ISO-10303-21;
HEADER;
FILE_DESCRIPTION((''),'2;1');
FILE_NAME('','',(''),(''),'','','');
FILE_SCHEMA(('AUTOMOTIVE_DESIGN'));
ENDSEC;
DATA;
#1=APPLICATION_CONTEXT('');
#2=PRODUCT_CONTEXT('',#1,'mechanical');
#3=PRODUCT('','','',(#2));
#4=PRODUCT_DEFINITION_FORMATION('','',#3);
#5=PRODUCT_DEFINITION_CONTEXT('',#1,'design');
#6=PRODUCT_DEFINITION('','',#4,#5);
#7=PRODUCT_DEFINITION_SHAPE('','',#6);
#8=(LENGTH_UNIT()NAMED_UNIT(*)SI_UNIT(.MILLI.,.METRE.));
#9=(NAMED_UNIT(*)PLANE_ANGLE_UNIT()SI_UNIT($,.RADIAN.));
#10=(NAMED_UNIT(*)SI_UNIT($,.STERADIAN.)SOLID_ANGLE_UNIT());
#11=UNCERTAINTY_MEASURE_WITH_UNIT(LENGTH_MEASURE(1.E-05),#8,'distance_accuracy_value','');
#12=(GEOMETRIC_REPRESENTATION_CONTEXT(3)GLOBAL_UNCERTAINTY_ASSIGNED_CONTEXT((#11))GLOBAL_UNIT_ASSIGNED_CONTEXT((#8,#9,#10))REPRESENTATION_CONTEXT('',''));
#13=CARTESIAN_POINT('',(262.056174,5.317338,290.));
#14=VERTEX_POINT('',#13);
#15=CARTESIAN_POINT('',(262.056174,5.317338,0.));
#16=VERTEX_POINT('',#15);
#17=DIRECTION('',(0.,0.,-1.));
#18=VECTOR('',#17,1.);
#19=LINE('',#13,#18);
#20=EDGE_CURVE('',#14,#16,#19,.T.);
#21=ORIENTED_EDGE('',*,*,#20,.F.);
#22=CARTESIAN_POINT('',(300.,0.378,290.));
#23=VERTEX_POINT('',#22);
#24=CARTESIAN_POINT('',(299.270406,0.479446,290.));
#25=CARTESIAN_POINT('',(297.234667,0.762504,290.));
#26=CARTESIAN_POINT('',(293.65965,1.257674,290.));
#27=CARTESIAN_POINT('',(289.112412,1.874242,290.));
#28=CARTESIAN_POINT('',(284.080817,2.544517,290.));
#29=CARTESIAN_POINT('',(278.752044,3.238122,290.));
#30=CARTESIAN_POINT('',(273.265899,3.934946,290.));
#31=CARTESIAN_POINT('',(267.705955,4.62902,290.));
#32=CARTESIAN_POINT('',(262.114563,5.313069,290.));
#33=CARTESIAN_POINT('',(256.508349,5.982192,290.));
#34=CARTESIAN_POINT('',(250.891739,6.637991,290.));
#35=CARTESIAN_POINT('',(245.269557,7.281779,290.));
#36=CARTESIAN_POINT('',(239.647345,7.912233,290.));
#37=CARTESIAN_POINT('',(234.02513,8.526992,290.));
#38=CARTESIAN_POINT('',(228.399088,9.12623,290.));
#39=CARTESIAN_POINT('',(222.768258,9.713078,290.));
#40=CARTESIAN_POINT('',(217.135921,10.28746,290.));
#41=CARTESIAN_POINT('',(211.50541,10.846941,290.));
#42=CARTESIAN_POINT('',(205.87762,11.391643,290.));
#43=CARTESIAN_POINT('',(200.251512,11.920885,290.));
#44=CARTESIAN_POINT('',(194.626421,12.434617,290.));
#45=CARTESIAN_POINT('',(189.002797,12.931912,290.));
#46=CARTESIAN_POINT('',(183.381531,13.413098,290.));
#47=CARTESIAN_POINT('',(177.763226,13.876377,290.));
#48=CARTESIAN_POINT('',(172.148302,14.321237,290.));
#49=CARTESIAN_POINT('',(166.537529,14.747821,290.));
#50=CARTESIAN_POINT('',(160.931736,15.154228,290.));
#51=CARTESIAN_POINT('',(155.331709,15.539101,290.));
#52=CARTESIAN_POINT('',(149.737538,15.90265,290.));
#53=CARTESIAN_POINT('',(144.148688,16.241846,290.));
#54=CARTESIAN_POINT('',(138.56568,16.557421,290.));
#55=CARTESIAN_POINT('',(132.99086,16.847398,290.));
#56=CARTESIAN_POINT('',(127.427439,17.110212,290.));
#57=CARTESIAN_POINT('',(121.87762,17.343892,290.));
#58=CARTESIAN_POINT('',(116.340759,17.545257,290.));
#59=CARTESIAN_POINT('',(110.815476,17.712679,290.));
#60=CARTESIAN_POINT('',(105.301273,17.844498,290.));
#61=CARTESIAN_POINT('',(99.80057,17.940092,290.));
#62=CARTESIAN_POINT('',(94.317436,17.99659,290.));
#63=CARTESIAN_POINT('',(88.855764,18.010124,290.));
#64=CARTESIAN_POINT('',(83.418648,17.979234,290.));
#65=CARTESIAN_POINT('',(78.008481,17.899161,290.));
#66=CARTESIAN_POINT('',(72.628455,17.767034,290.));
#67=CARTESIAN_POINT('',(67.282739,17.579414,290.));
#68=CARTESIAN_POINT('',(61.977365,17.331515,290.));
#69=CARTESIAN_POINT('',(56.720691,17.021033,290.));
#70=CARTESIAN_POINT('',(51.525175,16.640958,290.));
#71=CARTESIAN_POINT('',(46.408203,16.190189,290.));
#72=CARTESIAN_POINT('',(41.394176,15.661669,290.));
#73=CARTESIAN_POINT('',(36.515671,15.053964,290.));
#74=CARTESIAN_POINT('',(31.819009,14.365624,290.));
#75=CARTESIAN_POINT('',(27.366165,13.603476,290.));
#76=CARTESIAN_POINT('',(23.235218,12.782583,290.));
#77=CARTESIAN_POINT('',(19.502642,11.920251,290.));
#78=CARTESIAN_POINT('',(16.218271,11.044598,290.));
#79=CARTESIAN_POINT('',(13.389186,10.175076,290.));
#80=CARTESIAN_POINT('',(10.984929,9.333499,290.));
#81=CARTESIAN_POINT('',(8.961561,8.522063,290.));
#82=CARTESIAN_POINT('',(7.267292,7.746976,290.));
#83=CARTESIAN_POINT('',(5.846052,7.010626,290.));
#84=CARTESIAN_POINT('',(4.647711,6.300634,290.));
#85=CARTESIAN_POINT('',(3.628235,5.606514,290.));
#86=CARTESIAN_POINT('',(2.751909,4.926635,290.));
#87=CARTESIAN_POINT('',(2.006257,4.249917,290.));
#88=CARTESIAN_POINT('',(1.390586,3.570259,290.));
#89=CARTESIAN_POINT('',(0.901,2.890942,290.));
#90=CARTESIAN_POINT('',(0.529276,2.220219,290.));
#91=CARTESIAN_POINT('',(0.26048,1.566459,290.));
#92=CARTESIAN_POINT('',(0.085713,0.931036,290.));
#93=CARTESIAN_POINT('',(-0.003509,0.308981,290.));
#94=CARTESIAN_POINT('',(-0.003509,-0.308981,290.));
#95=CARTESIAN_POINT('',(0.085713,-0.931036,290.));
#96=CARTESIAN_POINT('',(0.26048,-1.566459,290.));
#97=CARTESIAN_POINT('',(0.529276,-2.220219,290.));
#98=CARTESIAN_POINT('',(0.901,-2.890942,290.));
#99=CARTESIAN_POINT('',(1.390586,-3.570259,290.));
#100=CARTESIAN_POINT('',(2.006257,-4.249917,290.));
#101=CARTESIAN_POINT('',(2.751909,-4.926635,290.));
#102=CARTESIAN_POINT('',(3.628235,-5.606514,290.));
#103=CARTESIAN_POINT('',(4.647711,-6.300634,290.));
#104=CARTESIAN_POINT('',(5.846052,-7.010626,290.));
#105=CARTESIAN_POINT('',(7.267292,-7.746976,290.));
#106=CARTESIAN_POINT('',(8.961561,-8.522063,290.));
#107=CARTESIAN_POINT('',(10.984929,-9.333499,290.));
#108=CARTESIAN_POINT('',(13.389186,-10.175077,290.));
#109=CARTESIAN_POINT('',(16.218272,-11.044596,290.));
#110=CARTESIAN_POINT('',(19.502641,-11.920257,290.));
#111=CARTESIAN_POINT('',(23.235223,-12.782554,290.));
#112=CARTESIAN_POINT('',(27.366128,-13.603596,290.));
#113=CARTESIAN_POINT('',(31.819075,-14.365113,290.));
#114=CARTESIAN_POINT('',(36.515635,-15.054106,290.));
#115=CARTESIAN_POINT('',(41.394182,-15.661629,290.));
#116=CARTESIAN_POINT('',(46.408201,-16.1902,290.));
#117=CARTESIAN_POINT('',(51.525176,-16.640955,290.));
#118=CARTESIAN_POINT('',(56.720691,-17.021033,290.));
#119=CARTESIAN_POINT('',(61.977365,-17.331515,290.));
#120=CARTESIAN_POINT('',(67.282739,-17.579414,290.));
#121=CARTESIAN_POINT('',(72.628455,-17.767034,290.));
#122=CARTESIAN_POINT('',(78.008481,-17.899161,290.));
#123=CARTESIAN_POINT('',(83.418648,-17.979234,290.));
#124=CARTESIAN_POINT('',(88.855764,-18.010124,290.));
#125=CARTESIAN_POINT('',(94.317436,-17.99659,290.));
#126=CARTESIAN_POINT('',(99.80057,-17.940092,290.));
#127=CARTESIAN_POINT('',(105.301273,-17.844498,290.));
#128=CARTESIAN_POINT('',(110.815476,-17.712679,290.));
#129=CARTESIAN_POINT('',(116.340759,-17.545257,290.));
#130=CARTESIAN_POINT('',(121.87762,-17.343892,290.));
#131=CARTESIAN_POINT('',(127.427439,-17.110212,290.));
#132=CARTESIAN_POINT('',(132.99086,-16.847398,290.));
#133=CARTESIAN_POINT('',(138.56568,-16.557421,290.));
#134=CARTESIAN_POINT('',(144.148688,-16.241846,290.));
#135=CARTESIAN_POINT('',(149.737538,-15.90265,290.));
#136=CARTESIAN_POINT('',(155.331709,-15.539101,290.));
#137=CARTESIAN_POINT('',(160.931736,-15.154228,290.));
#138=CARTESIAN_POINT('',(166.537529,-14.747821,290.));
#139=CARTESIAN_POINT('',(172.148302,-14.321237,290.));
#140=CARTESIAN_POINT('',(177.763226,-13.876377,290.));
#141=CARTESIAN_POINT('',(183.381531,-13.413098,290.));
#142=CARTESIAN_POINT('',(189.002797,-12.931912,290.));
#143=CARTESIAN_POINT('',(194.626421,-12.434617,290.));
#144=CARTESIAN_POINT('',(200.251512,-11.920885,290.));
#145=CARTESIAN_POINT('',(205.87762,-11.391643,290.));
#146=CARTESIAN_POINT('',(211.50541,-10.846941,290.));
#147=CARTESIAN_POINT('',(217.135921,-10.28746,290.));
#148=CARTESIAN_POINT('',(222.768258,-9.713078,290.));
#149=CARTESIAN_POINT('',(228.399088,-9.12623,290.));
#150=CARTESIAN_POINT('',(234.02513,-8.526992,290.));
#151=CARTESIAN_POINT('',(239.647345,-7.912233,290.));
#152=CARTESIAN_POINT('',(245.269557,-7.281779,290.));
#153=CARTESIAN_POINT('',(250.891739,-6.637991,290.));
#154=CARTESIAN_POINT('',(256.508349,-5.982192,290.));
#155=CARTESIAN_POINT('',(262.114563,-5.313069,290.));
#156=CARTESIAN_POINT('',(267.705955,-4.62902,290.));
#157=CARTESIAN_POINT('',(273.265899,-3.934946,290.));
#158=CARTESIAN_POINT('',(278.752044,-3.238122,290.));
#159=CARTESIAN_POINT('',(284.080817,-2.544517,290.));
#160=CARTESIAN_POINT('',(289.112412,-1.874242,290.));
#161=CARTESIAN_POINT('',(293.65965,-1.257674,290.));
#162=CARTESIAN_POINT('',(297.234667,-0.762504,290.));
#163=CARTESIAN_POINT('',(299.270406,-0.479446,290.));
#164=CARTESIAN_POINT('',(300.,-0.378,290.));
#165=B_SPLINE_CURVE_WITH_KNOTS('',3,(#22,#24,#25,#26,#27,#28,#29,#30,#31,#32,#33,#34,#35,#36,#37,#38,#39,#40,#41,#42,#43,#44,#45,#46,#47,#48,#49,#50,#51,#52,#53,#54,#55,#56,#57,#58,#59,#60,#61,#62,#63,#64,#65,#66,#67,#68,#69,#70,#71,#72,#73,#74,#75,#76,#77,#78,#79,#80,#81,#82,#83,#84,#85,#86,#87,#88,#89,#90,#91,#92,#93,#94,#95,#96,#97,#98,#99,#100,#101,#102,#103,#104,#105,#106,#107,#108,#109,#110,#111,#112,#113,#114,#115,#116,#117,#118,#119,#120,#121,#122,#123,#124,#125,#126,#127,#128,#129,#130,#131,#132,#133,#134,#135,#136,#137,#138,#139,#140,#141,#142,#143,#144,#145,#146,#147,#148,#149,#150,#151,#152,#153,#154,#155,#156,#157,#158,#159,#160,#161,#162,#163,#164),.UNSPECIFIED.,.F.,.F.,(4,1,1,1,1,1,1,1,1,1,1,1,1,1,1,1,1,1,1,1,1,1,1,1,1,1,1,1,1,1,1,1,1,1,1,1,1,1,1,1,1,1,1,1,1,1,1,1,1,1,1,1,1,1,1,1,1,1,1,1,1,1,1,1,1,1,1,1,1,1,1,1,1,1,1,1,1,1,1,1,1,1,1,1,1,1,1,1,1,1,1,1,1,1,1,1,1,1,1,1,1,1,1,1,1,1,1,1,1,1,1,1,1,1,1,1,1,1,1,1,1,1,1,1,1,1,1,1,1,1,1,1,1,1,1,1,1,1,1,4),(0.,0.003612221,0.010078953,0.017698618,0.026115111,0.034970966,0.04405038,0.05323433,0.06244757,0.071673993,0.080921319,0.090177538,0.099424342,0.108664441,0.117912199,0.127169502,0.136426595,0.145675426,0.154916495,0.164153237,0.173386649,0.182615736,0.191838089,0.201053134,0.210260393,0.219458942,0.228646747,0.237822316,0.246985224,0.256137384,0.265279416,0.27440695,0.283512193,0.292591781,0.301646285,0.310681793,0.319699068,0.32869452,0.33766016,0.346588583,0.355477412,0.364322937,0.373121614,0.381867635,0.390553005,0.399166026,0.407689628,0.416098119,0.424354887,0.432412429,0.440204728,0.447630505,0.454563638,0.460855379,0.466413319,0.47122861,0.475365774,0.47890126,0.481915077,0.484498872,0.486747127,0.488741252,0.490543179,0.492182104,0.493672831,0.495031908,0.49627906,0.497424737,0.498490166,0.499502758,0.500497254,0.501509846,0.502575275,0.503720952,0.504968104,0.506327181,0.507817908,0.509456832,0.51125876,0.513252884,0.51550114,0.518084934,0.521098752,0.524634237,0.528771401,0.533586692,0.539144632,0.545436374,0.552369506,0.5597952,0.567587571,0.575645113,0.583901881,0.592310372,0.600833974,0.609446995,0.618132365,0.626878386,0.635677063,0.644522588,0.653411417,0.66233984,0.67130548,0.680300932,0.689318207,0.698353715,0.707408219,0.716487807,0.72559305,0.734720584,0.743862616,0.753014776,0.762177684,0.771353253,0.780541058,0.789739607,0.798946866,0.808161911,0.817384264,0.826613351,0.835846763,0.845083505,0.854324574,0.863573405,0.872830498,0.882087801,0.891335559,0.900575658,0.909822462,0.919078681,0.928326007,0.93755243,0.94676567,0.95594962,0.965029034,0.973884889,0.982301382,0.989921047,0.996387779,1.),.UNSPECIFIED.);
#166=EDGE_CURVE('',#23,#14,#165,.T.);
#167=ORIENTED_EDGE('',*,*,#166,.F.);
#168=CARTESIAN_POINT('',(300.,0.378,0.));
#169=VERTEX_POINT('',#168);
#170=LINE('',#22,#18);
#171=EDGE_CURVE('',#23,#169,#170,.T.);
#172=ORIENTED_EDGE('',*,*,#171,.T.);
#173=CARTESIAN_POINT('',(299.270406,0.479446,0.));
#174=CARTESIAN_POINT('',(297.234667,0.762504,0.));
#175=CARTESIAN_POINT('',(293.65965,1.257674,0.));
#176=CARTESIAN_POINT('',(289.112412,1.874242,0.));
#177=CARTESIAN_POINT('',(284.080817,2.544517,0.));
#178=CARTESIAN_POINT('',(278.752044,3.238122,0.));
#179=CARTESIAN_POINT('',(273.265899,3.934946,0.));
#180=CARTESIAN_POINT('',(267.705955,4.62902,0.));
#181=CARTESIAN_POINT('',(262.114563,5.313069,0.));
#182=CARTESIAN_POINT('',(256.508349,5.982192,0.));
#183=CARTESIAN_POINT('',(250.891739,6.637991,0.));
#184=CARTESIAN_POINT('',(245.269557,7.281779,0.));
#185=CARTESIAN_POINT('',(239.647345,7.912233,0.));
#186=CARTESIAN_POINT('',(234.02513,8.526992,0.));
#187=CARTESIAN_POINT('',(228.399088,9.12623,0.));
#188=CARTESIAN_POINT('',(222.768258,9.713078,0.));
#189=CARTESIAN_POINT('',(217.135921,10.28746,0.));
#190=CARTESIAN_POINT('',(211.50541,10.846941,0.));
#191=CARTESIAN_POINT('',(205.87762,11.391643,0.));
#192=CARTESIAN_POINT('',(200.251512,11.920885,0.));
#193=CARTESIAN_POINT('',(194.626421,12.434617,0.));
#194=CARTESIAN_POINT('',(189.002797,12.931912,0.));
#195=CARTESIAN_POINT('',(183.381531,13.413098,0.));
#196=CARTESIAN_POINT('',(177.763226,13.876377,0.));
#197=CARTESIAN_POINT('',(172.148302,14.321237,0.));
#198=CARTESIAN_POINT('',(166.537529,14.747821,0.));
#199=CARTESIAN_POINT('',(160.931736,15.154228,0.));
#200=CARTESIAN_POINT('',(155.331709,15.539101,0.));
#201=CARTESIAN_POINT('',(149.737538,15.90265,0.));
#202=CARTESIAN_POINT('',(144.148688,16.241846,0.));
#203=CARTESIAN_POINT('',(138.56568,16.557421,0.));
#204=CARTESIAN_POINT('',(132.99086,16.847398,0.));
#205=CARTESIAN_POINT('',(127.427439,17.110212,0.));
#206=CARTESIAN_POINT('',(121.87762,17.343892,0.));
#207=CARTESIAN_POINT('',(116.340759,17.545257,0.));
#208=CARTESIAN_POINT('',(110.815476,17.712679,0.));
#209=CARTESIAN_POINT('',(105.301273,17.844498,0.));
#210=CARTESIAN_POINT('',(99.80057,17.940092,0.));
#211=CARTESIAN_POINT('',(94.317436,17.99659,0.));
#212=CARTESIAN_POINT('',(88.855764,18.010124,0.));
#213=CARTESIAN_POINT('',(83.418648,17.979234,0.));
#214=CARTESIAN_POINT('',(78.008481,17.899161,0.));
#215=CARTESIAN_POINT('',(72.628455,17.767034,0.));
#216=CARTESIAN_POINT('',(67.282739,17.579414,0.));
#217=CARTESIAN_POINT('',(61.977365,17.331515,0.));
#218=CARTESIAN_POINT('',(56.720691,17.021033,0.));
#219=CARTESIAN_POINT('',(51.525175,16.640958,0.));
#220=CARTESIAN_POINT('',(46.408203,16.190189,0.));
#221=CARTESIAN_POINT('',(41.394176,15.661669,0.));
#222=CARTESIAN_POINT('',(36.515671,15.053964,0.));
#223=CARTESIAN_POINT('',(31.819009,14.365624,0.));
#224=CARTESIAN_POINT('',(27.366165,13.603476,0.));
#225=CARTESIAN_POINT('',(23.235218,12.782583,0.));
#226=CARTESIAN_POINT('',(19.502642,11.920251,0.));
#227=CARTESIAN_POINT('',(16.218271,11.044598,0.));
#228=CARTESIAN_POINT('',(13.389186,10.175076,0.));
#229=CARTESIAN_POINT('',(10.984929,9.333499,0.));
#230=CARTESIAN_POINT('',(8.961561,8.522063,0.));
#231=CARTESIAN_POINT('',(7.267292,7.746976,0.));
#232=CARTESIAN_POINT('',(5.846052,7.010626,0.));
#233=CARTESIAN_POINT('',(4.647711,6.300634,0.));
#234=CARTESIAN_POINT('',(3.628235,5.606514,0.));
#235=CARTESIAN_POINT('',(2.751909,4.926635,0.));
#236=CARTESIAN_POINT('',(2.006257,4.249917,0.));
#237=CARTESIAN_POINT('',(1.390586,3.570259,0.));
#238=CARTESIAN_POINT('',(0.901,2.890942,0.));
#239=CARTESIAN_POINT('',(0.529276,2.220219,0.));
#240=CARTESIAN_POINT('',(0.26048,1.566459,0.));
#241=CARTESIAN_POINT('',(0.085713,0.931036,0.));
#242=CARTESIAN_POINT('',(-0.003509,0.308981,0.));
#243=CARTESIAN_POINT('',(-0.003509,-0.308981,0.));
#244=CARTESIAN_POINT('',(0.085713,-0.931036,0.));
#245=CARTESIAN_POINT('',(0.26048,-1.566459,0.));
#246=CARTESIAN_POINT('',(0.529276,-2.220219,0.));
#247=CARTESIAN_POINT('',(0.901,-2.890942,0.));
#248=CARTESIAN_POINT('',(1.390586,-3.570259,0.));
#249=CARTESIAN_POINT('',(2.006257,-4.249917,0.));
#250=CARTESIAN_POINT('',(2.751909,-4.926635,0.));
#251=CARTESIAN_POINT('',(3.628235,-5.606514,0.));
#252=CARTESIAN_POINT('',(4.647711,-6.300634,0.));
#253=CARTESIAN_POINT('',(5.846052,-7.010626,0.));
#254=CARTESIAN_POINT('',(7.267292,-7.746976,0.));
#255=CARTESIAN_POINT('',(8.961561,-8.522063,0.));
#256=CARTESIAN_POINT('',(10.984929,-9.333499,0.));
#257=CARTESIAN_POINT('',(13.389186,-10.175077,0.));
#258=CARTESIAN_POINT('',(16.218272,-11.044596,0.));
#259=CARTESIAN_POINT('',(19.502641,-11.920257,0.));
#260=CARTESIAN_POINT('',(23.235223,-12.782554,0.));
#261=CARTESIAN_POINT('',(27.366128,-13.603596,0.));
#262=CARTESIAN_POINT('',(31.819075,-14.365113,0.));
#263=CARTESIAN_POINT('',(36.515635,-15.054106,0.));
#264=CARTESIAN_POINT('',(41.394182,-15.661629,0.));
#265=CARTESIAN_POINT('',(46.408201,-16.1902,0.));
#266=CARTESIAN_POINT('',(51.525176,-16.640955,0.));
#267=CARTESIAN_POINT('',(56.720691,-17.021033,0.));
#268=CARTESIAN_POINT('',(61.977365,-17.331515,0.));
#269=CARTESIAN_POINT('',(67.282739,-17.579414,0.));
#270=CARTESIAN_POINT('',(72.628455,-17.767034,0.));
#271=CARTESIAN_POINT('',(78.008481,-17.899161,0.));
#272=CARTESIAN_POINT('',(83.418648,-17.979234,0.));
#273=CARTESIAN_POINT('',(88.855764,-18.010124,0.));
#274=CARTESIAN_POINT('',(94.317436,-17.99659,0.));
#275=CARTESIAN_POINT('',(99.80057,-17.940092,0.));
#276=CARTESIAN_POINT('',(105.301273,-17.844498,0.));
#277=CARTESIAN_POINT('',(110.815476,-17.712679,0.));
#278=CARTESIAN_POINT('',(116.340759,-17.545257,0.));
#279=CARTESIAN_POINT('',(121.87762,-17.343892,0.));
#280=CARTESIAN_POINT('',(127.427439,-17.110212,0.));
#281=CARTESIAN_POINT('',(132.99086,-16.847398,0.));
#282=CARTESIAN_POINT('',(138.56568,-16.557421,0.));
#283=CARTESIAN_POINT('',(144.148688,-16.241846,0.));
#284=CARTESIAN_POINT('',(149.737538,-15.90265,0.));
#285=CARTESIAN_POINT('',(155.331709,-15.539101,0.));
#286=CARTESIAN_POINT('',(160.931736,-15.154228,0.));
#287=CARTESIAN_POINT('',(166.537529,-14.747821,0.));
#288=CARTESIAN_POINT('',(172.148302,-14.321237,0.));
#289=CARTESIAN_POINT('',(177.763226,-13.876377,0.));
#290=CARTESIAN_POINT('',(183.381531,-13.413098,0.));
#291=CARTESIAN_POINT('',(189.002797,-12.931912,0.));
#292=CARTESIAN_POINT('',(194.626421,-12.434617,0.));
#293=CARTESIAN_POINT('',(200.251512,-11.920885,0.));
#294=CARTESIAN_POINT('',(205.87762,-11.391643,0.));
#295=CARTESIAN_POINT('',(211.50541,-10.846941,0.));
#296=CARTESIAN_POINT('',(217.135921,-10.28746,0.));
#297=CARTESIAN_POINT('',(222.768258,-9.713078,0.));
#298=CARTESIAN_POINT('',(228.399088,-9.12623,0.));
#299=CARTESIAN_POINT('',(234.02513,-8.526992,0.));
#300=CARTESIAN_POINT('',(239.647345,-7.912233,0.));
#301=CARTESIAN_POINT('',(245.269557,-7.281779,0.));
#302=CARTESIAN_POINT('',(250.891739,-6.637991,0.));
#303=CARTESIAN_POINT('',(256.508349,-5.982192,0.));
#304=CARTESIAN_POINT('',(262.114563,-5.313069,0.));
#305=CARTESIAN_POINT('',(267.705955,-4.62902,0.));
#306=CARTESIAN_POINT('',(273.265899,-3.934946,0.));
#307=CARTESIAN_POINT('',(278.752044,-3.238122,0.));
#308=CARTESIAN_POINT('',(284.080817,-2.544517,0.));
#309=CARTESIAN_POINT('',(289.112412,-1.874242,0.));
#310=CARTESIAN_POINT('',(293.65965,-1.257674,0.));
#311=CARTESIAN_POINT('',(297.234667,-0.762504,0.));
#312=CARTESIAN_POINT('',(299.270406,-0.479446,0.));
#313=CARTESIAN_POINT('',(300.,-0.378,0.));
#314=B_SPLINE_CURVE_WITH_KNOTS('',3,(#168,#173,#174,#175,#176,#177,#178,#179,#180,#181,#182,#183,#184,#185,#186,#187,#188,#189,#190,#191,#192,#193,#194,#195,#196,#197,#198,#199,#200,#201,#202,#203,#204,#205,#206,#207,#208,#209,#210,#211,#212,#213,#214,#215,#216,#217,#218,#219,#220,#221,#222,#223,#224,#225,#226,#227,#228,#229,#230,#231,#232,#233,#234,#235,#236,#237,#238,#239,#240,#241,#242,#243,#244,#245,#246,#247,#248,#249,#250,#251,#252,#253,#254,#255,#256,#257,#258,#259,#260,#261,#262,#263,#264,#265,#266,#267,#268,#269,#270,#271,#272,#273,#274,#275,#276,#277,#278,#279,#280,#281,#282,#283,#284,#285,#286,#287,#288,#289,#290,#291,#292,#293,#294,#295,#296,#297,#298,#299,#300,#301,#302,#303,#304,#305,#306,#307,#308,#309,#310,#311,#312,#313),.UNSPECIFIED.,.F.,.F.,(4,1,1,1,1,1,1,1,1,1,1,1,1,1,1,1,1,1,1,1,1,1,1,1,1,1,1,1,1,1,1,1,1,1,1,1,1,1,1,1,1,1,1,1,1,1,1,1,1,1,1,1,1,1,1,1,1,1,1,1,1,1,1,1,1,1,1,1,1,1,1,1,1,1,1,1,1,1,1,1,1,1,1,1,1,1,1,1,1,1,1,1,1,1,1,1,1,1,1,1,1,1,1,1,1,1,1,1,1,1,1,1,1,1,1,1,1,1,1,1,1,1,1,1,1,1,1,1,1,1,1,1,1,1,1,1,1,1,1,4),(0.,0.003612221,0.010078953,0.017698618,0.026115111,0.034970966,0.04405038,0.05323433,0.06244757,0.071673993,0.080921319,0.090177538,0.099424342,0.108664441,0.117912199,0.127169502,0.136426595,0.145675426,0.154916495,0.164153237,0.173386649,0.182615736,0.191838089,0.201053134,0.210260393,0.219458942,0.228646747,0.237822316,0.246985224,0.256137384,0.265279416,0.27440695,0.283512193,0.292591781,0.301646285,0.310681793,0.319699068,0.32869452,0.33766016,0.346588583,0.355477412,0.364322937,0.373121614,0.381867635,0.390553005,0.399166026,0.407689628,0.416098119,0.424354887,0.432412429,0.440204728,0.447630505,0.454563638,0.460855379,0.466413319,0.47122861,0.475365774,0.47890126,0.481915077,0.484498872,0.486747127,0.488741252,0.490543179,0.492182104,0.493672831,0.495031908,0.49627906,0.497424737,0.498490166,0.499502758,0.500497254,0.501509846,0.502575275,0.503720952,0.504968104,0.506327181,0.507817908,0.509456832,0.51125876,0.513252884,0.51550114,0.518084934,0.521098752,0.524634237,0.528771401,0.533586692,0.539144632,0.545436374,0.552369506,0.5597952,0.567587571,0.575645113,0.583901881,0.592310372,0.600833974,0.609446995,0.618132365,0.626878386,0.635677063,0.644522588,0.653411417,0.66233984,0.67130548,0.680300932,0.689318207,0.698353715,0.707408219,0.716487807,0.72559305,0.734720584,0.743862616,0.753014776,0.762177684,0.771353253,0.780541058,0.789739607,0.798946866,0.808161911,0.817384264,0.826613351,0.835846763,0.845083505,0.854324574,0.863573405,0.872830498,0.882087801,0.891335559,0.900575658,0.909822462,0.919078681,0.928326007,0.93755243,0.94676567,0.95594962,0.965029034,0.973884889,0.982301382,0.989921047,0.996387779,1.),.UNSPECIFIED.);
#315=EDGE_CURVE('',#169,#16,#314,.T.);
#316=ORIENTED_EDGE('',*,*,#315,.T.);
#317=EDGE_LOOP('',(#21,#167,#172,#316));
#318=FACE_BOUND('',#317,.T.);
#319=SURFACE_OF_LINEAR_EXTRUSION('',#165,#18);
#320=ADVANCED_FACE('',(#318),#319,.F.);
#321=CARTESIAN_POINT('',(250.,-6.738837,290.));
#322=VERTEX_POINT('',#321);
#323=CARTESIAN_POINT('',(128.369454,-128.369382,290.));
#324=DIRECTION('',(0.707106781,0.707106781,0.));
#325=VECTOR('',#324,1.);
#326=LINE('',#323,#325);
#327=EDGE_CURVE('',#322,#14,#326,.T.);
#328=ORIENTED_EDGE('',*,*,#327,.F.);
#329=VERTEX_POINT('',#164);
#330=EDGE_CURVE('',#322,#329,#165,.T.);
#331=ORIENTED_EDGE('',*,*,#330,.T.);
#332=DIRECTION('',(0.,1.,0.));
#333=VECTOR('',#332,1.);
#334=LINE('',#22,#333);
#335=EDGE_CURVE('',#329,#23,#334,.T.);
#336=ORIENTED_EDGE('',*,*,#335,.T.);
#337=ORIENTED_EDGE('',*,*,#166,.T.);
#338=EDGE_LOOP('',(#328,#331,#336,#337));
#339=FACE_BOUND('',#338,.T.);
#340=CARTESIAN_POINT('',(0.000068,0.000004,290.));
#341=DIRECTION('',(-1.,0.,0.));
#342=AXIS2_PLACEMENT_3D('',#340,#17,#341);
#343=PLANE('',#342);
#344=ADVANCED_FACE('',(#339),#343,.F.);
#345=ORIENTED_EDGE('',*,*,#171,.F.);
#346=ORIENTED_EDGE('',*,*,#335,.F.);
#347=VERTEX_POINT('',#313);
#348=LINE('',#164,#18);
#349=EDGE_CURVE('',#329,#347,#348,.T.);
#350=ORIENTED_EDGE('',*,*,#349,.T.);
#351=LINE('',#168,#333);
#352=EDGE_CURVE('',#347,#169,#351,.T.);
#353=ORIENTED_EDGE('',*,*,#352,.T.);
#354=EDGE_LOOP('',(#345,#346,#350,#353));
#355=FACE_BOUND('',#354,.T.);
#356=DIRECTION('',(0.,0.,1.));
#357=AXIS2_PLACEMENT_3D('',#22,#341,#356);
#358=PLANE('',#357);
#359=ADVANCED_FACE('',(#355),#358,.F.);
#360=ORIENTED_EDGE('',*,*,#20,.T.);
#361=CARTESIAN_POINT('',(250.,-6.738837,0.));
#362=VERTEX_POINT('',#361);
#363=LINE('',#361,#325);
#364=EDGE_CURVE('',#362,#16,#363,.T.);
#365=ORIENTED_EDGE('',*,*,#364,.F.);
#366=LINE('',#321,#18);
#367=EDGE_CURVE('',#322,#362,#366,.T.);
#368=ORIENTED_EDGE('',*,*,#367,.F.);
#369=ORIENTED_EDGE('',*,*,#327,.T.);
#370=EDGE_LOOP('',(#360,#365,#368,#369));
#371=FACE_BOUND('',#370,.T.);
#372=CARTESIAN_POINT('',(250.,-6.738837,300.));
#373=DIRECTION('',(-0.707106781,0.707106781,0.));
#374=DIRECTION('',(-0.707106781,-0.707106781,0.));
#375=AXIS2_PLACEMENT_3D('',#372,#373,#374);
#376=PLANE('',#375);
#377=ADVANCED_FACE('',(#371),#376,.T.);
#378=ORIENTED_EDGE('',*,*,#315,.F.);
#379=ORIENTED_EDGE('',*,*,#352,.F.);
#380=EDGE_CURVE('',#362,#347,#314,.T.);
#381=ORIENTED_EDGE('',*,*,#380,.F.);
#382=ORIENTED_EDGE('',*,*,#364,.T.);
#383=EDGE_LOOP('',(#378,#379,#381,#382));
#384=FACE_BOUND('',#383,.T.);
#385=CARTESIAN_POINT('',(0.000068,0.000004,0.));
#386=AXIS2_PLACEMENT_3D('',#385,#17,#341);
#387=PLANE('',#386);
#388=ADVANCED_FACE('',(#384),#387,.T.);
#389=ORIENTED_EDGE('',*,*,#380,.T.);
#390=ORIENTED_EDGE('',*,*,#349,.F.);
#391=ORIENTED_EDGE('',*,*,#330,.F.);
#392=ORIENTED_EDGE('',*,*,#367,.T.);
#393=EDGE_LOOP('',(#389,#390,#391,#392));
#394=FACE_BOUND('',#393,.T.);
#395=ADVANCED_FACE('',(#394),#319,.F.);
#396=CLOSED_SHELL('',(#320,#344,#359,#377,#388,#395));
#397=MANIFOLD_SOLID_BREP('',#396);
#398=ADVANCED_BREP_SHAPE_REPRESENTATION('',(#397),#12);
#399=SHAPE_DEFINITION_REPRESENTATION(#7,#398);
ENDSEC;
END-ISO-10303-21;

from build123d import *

# Parameters (mm, degrees)
BOSS_EXTRUDE1_DEPTH     = 290
CUT_EXTRUDE8_DEPTH      = 20
CUT_EXTRUDE8_DEPTH_BACK = 20
SKETCH8_OUTSIDE_W       = 385.76
SKETCH8_OUTSIDE_H       = 375.76
SKETCH8_OUTSIDE_W_2     = 50
SKETCH8_OUTSIDE_H_2     = 290
CUT_EXTRUDE9_DEPTH      = 300


with BuildPart() as part:
    # Sketch5 → Boss-Extrude1 (new body)
    with BuildSketch(Plane.XY):
        with BuildLine():
            Line((300, 0.378), (300, -0.378))
            add(Edge.make_bspline(
                [(300, 0.378), (299.270406424, 0.479445822), (297.234667094, 0.762503754), (293.659650161, 1.257673506), (289.112411795, 1.874242443), (284.080816659, 2.54451744), (278.752044218, 3.238122316), (273.265899022, 3.934946436), (267.705955472, 4.629019943), (262.11456302, 5.313069107), (256.508348909, 5.982191812), (250.891738994, 6.637990809), (245.269556965, 7.281779235), (239.647345349, 7.912232764), (234.025130107, 8.526992046), (228.399087903, 9.126229764), (222.768257645, 9.713077606), (217.135920793, 10.28745981), (211.505410154, 10.846941084), (205.877619803, 11.391642827), (200.251512374, 11.920884624), (194.626420536, 12.434617078), (189.002797137, 12.931911809), (183.381530938, 13.413097581), (177.763225616, 13.876376701), (172.148301533, 14.321237194), (166.537529462, 14.747820918), (160.931736194, 15.154228144), (155.33170885, 15.539100856), (149.737538345, 15.902649564), (144.148688279, 16.241846119), (138.565679604, 16.557420546), (132.990859803, 16.847397555), (127.42743944, 17.110211679), (121.877619637, 17.343891718), (116.340758577, 17.545256813), (110.815476382, 17.71267912), (105.301273398, 17.844497938), (99.800570116, 17.940091813), (94.317435844, 17.996590439), (88.855764067, 18.010124458), (83.418647975, 17.97923384), (78.008480827, 17.899160713), (72.628455365, 17.767033787), (67.282738746, 17.579413934), (61.977364895, 17.331515489), (56.720691016, 17.021032651), (51.525175322, 16.64095807), (46.408202619, 16.190188591), (41.394176065, 15.661669099), (36.515671087, 15.053963784), (31.819009441, 14.365623605), (27.366164829, 13.603475684), (23.235217954, 12.782583444), (19.502642451, 11.920250751), (16.218271393, 11.044597796), (13.389186016, 10.175076255), (10.984929333, 9.333498715), (8.961561478, 8.522062882), (7.267292053, 7.746976002), (5.846052466, 7.010625622), (4.647711085, 6.300634033), (3.628235251, 5.606513668), (2.751909197, 4.926635252), (2.00625736, 4.249917259), (1.390586137, 3.570259492), (0.901000435, 2.890942252), (0.529275535, 2.220219273), (0.260479537, 1.566458936), (0.085712654, 0.931035928), (-0.003509247, 0.308981015), (-0.003509247, -0.308981015), (0.085712654, -0.931035928), (0.260479537, -1.566458936), (0.529275535, -2.220219273), (0.901000435, -2.890942252), (1.390586137, -3.570259492), (2.00625736, -4.249917259), (2.751909197, -4.926635252), (3.628235251, -5.606513668), (4.647711085, -6.300634033), (5.846052466, -7.010625622), (7.267292053, -7.746975999), (8.961561475, -8.522062895), (10.984929344, -9.333498651), (13.389185965, -10.175076559), (16.21827163, -11.044596377), (19.502641361, -11.92025728), (23.235222799, -12.782554413), (27.366127559, -13.603596161), (31.819075008, -14.365113363), (36.515634637, -15.054106097), (41.394182204, -15.661628887), (46.408200924, -16.190199694), (51.525175786, -16.640955027), (56.720690889, -17.02103348), (61.977364929, -17.331515263), (67.282738736, -17.579413995), (72.628455367, -17.767033771), (78.008480826, -17.899160717), (83.418647975, -17.979233839), (88.855764067, -18.010124458), (94.317435844, -17.996590438), (99.800570116, -17.940091813), (105.301273398, -17.844497938), (110.815476382, -17.71267912), (116.340758577, -17.545256813), (121.877619637, -17.343891718), (127.42743944, -17.110211679), (132.990859803, -16.847397555), (138.565679604, -16.557420546), (144.148688279, -16.241846119), (149.737538345, -15.902649564), (155.33170885, -15.539100856), (160.931736194, -15.154228144), (166.537529462, -14.747820918), (172.148301533, -14.321237194), (177.763225616, -13.876376701), (183.381530938, -13.413097581), (189.002797137, -12.931911809), (194.626420536, -12.434617078), (200.251512374, -11.920884624), (205.877619803, -11.391642827), (211.505410154, -10.846941084), (217.135920793, -10.28745981), (222.768257645, -9.713077606), (228.399087903, -9.126229764), (234.025130107, -8.526992046), (239.647345349, -7.912232764), (245.269556965, -7.281779235), (250.891738994, -6.637990809), (256.508348909, -5.982191812), (262.11456302, -5.313069107), (267.705955472, -4.629019943), (273.265899022, -3.934946436), (278.752044218, -3.238122316), (284.080816659, -2.54451744), (289.112411795, -1.874242443), (293.659650161, -1.257673506), (297.234667094, -0.762503754), (299.270406424, -0.479445822), (300, -0.378)],
                knots=[0, 0, 0, 0, 0.003612221, 0.010078953, 0.017698618, 0.026115111, 0.034970966, 0.04405038, 0.05323433, 0.06244757, 0.071673993, 0.080921319, 0.090177538, 0.099424342, 0.108664441, 0.117912199, 0.127169502, 0.136426595, 0.145675426, 0.154916495, 0.164153237, 0.173386649, 0.182615736, 0.191838089, 0.201053134, 0.210260393, 0.219458942, 0.228646747, 0.237822316, 0.246985224, 0.256137384, 0.265279416, 0.27440695, 0.283512193, 0.292591781, 0.301646285, 0.310681793, 0.319699068, 0.32869452, 0.33766016, 0.346588583, 0.355477412, 0.364322937, 0.373121614, 0.381867635, 0.390553005, 0.399166026, 0.407689628, 0.416098119, 0.424354887, 0.432412429, 0.440204728, 0.447630505, 0.454563638, 0.460855379, 0.466413319, 0.47122861, 0.475365774, 0.47890126, 0.481915077, 0.484498872, 0.486747127, 0.488741252, 0.490543179, 0.492182104, 0.493672831, 0.495031908, 0.49627906, 0.497424737, 0.498490166, 0.499502758, 0.500497254, 0.501509846, 0.502575275, 0.503720952, 0.504968104, 0.506327181, 0.507817908, 0.509456832, 0.51125876, 0.513252884, 0.51550114, 0.518084934, 0.521098752, 0.524634237, 0.528771401, 0.533586692, 0.539144632, 0.545436374, 0.552369506, 0.5597952, 0.567587571, 0.575645113, 0.583901881, 0.592310372, 0.600833974, 0.609446995, 0.618132365, 0.626878386, 0.635677063, 0.644522588, 0.653411417, 0.66233984, 0.67130548, 0.680300932, 0.689318207, 0.698353715, 0.707408219, 0.716487807, 0.72559305, 0.734720584, 0.743862616, 0.753014776, 0.762177684, 0.771353253, 0.780541058, 0.789739607, 0.798946866, 0.808161911, 0.817384264, 0.826613351, 0.835846763, 0.845083505, 0.854324574, 0.863573405, 0.872830498, 0.882087801, 0.891335559, 0.900575658, 0.909822462, 0.919078681, 0.928326007, 0.93755243, 0.94676567, 0.95594962, 0.965029034, 0.973884889, 0.982301382, 0.989921047, 0.996387779, 1, 1, 1, 1], degree=3))
        make_face()
    extrude(amount=BOSS_EXTRUDE1_DEPTH)

    # Sketch8 outside → Cut-Extrude8 (cut, two sides: drawn at the far end of the back side and taken through both)
    with BuildSketch(Plane(origin=(0, 0, 0), x_dir=(1, 0, 0), z_dir=(0, 1, 0)).offset(-CUT_EXTRUDE8_DEPTH_BACK)):
        with Locations((150, -145)):
            Rectangle(SKETCH8_OUTSIDE_W, SKETCH8_OUTSIDE_H)
        with Locations((275, -145)):
            Rectangle(SKETCH8_OUTSIDE_W_2, SKETCH8_OUTSIDE_H_2, mode=Mode.SUBTRACT)
    extrude(amount=CUT_EXTRUDE8_DEPTH + CUT_EXTRUDE8_DEPTH_BACK, mode=Mode.SUBTRACT)

    # Sketch9 → Cut-Extrude9 (cut)
    with BuildSketch(Plane.XY):
        Polygon((250, -6.738836522), (280, 23.261163478), (250, 23.261163478), align=None)
    extrude(amount=CUT_EXTRUDE9_DEPTH, mode=Mode.SUBTRACT)


solid = part.part
